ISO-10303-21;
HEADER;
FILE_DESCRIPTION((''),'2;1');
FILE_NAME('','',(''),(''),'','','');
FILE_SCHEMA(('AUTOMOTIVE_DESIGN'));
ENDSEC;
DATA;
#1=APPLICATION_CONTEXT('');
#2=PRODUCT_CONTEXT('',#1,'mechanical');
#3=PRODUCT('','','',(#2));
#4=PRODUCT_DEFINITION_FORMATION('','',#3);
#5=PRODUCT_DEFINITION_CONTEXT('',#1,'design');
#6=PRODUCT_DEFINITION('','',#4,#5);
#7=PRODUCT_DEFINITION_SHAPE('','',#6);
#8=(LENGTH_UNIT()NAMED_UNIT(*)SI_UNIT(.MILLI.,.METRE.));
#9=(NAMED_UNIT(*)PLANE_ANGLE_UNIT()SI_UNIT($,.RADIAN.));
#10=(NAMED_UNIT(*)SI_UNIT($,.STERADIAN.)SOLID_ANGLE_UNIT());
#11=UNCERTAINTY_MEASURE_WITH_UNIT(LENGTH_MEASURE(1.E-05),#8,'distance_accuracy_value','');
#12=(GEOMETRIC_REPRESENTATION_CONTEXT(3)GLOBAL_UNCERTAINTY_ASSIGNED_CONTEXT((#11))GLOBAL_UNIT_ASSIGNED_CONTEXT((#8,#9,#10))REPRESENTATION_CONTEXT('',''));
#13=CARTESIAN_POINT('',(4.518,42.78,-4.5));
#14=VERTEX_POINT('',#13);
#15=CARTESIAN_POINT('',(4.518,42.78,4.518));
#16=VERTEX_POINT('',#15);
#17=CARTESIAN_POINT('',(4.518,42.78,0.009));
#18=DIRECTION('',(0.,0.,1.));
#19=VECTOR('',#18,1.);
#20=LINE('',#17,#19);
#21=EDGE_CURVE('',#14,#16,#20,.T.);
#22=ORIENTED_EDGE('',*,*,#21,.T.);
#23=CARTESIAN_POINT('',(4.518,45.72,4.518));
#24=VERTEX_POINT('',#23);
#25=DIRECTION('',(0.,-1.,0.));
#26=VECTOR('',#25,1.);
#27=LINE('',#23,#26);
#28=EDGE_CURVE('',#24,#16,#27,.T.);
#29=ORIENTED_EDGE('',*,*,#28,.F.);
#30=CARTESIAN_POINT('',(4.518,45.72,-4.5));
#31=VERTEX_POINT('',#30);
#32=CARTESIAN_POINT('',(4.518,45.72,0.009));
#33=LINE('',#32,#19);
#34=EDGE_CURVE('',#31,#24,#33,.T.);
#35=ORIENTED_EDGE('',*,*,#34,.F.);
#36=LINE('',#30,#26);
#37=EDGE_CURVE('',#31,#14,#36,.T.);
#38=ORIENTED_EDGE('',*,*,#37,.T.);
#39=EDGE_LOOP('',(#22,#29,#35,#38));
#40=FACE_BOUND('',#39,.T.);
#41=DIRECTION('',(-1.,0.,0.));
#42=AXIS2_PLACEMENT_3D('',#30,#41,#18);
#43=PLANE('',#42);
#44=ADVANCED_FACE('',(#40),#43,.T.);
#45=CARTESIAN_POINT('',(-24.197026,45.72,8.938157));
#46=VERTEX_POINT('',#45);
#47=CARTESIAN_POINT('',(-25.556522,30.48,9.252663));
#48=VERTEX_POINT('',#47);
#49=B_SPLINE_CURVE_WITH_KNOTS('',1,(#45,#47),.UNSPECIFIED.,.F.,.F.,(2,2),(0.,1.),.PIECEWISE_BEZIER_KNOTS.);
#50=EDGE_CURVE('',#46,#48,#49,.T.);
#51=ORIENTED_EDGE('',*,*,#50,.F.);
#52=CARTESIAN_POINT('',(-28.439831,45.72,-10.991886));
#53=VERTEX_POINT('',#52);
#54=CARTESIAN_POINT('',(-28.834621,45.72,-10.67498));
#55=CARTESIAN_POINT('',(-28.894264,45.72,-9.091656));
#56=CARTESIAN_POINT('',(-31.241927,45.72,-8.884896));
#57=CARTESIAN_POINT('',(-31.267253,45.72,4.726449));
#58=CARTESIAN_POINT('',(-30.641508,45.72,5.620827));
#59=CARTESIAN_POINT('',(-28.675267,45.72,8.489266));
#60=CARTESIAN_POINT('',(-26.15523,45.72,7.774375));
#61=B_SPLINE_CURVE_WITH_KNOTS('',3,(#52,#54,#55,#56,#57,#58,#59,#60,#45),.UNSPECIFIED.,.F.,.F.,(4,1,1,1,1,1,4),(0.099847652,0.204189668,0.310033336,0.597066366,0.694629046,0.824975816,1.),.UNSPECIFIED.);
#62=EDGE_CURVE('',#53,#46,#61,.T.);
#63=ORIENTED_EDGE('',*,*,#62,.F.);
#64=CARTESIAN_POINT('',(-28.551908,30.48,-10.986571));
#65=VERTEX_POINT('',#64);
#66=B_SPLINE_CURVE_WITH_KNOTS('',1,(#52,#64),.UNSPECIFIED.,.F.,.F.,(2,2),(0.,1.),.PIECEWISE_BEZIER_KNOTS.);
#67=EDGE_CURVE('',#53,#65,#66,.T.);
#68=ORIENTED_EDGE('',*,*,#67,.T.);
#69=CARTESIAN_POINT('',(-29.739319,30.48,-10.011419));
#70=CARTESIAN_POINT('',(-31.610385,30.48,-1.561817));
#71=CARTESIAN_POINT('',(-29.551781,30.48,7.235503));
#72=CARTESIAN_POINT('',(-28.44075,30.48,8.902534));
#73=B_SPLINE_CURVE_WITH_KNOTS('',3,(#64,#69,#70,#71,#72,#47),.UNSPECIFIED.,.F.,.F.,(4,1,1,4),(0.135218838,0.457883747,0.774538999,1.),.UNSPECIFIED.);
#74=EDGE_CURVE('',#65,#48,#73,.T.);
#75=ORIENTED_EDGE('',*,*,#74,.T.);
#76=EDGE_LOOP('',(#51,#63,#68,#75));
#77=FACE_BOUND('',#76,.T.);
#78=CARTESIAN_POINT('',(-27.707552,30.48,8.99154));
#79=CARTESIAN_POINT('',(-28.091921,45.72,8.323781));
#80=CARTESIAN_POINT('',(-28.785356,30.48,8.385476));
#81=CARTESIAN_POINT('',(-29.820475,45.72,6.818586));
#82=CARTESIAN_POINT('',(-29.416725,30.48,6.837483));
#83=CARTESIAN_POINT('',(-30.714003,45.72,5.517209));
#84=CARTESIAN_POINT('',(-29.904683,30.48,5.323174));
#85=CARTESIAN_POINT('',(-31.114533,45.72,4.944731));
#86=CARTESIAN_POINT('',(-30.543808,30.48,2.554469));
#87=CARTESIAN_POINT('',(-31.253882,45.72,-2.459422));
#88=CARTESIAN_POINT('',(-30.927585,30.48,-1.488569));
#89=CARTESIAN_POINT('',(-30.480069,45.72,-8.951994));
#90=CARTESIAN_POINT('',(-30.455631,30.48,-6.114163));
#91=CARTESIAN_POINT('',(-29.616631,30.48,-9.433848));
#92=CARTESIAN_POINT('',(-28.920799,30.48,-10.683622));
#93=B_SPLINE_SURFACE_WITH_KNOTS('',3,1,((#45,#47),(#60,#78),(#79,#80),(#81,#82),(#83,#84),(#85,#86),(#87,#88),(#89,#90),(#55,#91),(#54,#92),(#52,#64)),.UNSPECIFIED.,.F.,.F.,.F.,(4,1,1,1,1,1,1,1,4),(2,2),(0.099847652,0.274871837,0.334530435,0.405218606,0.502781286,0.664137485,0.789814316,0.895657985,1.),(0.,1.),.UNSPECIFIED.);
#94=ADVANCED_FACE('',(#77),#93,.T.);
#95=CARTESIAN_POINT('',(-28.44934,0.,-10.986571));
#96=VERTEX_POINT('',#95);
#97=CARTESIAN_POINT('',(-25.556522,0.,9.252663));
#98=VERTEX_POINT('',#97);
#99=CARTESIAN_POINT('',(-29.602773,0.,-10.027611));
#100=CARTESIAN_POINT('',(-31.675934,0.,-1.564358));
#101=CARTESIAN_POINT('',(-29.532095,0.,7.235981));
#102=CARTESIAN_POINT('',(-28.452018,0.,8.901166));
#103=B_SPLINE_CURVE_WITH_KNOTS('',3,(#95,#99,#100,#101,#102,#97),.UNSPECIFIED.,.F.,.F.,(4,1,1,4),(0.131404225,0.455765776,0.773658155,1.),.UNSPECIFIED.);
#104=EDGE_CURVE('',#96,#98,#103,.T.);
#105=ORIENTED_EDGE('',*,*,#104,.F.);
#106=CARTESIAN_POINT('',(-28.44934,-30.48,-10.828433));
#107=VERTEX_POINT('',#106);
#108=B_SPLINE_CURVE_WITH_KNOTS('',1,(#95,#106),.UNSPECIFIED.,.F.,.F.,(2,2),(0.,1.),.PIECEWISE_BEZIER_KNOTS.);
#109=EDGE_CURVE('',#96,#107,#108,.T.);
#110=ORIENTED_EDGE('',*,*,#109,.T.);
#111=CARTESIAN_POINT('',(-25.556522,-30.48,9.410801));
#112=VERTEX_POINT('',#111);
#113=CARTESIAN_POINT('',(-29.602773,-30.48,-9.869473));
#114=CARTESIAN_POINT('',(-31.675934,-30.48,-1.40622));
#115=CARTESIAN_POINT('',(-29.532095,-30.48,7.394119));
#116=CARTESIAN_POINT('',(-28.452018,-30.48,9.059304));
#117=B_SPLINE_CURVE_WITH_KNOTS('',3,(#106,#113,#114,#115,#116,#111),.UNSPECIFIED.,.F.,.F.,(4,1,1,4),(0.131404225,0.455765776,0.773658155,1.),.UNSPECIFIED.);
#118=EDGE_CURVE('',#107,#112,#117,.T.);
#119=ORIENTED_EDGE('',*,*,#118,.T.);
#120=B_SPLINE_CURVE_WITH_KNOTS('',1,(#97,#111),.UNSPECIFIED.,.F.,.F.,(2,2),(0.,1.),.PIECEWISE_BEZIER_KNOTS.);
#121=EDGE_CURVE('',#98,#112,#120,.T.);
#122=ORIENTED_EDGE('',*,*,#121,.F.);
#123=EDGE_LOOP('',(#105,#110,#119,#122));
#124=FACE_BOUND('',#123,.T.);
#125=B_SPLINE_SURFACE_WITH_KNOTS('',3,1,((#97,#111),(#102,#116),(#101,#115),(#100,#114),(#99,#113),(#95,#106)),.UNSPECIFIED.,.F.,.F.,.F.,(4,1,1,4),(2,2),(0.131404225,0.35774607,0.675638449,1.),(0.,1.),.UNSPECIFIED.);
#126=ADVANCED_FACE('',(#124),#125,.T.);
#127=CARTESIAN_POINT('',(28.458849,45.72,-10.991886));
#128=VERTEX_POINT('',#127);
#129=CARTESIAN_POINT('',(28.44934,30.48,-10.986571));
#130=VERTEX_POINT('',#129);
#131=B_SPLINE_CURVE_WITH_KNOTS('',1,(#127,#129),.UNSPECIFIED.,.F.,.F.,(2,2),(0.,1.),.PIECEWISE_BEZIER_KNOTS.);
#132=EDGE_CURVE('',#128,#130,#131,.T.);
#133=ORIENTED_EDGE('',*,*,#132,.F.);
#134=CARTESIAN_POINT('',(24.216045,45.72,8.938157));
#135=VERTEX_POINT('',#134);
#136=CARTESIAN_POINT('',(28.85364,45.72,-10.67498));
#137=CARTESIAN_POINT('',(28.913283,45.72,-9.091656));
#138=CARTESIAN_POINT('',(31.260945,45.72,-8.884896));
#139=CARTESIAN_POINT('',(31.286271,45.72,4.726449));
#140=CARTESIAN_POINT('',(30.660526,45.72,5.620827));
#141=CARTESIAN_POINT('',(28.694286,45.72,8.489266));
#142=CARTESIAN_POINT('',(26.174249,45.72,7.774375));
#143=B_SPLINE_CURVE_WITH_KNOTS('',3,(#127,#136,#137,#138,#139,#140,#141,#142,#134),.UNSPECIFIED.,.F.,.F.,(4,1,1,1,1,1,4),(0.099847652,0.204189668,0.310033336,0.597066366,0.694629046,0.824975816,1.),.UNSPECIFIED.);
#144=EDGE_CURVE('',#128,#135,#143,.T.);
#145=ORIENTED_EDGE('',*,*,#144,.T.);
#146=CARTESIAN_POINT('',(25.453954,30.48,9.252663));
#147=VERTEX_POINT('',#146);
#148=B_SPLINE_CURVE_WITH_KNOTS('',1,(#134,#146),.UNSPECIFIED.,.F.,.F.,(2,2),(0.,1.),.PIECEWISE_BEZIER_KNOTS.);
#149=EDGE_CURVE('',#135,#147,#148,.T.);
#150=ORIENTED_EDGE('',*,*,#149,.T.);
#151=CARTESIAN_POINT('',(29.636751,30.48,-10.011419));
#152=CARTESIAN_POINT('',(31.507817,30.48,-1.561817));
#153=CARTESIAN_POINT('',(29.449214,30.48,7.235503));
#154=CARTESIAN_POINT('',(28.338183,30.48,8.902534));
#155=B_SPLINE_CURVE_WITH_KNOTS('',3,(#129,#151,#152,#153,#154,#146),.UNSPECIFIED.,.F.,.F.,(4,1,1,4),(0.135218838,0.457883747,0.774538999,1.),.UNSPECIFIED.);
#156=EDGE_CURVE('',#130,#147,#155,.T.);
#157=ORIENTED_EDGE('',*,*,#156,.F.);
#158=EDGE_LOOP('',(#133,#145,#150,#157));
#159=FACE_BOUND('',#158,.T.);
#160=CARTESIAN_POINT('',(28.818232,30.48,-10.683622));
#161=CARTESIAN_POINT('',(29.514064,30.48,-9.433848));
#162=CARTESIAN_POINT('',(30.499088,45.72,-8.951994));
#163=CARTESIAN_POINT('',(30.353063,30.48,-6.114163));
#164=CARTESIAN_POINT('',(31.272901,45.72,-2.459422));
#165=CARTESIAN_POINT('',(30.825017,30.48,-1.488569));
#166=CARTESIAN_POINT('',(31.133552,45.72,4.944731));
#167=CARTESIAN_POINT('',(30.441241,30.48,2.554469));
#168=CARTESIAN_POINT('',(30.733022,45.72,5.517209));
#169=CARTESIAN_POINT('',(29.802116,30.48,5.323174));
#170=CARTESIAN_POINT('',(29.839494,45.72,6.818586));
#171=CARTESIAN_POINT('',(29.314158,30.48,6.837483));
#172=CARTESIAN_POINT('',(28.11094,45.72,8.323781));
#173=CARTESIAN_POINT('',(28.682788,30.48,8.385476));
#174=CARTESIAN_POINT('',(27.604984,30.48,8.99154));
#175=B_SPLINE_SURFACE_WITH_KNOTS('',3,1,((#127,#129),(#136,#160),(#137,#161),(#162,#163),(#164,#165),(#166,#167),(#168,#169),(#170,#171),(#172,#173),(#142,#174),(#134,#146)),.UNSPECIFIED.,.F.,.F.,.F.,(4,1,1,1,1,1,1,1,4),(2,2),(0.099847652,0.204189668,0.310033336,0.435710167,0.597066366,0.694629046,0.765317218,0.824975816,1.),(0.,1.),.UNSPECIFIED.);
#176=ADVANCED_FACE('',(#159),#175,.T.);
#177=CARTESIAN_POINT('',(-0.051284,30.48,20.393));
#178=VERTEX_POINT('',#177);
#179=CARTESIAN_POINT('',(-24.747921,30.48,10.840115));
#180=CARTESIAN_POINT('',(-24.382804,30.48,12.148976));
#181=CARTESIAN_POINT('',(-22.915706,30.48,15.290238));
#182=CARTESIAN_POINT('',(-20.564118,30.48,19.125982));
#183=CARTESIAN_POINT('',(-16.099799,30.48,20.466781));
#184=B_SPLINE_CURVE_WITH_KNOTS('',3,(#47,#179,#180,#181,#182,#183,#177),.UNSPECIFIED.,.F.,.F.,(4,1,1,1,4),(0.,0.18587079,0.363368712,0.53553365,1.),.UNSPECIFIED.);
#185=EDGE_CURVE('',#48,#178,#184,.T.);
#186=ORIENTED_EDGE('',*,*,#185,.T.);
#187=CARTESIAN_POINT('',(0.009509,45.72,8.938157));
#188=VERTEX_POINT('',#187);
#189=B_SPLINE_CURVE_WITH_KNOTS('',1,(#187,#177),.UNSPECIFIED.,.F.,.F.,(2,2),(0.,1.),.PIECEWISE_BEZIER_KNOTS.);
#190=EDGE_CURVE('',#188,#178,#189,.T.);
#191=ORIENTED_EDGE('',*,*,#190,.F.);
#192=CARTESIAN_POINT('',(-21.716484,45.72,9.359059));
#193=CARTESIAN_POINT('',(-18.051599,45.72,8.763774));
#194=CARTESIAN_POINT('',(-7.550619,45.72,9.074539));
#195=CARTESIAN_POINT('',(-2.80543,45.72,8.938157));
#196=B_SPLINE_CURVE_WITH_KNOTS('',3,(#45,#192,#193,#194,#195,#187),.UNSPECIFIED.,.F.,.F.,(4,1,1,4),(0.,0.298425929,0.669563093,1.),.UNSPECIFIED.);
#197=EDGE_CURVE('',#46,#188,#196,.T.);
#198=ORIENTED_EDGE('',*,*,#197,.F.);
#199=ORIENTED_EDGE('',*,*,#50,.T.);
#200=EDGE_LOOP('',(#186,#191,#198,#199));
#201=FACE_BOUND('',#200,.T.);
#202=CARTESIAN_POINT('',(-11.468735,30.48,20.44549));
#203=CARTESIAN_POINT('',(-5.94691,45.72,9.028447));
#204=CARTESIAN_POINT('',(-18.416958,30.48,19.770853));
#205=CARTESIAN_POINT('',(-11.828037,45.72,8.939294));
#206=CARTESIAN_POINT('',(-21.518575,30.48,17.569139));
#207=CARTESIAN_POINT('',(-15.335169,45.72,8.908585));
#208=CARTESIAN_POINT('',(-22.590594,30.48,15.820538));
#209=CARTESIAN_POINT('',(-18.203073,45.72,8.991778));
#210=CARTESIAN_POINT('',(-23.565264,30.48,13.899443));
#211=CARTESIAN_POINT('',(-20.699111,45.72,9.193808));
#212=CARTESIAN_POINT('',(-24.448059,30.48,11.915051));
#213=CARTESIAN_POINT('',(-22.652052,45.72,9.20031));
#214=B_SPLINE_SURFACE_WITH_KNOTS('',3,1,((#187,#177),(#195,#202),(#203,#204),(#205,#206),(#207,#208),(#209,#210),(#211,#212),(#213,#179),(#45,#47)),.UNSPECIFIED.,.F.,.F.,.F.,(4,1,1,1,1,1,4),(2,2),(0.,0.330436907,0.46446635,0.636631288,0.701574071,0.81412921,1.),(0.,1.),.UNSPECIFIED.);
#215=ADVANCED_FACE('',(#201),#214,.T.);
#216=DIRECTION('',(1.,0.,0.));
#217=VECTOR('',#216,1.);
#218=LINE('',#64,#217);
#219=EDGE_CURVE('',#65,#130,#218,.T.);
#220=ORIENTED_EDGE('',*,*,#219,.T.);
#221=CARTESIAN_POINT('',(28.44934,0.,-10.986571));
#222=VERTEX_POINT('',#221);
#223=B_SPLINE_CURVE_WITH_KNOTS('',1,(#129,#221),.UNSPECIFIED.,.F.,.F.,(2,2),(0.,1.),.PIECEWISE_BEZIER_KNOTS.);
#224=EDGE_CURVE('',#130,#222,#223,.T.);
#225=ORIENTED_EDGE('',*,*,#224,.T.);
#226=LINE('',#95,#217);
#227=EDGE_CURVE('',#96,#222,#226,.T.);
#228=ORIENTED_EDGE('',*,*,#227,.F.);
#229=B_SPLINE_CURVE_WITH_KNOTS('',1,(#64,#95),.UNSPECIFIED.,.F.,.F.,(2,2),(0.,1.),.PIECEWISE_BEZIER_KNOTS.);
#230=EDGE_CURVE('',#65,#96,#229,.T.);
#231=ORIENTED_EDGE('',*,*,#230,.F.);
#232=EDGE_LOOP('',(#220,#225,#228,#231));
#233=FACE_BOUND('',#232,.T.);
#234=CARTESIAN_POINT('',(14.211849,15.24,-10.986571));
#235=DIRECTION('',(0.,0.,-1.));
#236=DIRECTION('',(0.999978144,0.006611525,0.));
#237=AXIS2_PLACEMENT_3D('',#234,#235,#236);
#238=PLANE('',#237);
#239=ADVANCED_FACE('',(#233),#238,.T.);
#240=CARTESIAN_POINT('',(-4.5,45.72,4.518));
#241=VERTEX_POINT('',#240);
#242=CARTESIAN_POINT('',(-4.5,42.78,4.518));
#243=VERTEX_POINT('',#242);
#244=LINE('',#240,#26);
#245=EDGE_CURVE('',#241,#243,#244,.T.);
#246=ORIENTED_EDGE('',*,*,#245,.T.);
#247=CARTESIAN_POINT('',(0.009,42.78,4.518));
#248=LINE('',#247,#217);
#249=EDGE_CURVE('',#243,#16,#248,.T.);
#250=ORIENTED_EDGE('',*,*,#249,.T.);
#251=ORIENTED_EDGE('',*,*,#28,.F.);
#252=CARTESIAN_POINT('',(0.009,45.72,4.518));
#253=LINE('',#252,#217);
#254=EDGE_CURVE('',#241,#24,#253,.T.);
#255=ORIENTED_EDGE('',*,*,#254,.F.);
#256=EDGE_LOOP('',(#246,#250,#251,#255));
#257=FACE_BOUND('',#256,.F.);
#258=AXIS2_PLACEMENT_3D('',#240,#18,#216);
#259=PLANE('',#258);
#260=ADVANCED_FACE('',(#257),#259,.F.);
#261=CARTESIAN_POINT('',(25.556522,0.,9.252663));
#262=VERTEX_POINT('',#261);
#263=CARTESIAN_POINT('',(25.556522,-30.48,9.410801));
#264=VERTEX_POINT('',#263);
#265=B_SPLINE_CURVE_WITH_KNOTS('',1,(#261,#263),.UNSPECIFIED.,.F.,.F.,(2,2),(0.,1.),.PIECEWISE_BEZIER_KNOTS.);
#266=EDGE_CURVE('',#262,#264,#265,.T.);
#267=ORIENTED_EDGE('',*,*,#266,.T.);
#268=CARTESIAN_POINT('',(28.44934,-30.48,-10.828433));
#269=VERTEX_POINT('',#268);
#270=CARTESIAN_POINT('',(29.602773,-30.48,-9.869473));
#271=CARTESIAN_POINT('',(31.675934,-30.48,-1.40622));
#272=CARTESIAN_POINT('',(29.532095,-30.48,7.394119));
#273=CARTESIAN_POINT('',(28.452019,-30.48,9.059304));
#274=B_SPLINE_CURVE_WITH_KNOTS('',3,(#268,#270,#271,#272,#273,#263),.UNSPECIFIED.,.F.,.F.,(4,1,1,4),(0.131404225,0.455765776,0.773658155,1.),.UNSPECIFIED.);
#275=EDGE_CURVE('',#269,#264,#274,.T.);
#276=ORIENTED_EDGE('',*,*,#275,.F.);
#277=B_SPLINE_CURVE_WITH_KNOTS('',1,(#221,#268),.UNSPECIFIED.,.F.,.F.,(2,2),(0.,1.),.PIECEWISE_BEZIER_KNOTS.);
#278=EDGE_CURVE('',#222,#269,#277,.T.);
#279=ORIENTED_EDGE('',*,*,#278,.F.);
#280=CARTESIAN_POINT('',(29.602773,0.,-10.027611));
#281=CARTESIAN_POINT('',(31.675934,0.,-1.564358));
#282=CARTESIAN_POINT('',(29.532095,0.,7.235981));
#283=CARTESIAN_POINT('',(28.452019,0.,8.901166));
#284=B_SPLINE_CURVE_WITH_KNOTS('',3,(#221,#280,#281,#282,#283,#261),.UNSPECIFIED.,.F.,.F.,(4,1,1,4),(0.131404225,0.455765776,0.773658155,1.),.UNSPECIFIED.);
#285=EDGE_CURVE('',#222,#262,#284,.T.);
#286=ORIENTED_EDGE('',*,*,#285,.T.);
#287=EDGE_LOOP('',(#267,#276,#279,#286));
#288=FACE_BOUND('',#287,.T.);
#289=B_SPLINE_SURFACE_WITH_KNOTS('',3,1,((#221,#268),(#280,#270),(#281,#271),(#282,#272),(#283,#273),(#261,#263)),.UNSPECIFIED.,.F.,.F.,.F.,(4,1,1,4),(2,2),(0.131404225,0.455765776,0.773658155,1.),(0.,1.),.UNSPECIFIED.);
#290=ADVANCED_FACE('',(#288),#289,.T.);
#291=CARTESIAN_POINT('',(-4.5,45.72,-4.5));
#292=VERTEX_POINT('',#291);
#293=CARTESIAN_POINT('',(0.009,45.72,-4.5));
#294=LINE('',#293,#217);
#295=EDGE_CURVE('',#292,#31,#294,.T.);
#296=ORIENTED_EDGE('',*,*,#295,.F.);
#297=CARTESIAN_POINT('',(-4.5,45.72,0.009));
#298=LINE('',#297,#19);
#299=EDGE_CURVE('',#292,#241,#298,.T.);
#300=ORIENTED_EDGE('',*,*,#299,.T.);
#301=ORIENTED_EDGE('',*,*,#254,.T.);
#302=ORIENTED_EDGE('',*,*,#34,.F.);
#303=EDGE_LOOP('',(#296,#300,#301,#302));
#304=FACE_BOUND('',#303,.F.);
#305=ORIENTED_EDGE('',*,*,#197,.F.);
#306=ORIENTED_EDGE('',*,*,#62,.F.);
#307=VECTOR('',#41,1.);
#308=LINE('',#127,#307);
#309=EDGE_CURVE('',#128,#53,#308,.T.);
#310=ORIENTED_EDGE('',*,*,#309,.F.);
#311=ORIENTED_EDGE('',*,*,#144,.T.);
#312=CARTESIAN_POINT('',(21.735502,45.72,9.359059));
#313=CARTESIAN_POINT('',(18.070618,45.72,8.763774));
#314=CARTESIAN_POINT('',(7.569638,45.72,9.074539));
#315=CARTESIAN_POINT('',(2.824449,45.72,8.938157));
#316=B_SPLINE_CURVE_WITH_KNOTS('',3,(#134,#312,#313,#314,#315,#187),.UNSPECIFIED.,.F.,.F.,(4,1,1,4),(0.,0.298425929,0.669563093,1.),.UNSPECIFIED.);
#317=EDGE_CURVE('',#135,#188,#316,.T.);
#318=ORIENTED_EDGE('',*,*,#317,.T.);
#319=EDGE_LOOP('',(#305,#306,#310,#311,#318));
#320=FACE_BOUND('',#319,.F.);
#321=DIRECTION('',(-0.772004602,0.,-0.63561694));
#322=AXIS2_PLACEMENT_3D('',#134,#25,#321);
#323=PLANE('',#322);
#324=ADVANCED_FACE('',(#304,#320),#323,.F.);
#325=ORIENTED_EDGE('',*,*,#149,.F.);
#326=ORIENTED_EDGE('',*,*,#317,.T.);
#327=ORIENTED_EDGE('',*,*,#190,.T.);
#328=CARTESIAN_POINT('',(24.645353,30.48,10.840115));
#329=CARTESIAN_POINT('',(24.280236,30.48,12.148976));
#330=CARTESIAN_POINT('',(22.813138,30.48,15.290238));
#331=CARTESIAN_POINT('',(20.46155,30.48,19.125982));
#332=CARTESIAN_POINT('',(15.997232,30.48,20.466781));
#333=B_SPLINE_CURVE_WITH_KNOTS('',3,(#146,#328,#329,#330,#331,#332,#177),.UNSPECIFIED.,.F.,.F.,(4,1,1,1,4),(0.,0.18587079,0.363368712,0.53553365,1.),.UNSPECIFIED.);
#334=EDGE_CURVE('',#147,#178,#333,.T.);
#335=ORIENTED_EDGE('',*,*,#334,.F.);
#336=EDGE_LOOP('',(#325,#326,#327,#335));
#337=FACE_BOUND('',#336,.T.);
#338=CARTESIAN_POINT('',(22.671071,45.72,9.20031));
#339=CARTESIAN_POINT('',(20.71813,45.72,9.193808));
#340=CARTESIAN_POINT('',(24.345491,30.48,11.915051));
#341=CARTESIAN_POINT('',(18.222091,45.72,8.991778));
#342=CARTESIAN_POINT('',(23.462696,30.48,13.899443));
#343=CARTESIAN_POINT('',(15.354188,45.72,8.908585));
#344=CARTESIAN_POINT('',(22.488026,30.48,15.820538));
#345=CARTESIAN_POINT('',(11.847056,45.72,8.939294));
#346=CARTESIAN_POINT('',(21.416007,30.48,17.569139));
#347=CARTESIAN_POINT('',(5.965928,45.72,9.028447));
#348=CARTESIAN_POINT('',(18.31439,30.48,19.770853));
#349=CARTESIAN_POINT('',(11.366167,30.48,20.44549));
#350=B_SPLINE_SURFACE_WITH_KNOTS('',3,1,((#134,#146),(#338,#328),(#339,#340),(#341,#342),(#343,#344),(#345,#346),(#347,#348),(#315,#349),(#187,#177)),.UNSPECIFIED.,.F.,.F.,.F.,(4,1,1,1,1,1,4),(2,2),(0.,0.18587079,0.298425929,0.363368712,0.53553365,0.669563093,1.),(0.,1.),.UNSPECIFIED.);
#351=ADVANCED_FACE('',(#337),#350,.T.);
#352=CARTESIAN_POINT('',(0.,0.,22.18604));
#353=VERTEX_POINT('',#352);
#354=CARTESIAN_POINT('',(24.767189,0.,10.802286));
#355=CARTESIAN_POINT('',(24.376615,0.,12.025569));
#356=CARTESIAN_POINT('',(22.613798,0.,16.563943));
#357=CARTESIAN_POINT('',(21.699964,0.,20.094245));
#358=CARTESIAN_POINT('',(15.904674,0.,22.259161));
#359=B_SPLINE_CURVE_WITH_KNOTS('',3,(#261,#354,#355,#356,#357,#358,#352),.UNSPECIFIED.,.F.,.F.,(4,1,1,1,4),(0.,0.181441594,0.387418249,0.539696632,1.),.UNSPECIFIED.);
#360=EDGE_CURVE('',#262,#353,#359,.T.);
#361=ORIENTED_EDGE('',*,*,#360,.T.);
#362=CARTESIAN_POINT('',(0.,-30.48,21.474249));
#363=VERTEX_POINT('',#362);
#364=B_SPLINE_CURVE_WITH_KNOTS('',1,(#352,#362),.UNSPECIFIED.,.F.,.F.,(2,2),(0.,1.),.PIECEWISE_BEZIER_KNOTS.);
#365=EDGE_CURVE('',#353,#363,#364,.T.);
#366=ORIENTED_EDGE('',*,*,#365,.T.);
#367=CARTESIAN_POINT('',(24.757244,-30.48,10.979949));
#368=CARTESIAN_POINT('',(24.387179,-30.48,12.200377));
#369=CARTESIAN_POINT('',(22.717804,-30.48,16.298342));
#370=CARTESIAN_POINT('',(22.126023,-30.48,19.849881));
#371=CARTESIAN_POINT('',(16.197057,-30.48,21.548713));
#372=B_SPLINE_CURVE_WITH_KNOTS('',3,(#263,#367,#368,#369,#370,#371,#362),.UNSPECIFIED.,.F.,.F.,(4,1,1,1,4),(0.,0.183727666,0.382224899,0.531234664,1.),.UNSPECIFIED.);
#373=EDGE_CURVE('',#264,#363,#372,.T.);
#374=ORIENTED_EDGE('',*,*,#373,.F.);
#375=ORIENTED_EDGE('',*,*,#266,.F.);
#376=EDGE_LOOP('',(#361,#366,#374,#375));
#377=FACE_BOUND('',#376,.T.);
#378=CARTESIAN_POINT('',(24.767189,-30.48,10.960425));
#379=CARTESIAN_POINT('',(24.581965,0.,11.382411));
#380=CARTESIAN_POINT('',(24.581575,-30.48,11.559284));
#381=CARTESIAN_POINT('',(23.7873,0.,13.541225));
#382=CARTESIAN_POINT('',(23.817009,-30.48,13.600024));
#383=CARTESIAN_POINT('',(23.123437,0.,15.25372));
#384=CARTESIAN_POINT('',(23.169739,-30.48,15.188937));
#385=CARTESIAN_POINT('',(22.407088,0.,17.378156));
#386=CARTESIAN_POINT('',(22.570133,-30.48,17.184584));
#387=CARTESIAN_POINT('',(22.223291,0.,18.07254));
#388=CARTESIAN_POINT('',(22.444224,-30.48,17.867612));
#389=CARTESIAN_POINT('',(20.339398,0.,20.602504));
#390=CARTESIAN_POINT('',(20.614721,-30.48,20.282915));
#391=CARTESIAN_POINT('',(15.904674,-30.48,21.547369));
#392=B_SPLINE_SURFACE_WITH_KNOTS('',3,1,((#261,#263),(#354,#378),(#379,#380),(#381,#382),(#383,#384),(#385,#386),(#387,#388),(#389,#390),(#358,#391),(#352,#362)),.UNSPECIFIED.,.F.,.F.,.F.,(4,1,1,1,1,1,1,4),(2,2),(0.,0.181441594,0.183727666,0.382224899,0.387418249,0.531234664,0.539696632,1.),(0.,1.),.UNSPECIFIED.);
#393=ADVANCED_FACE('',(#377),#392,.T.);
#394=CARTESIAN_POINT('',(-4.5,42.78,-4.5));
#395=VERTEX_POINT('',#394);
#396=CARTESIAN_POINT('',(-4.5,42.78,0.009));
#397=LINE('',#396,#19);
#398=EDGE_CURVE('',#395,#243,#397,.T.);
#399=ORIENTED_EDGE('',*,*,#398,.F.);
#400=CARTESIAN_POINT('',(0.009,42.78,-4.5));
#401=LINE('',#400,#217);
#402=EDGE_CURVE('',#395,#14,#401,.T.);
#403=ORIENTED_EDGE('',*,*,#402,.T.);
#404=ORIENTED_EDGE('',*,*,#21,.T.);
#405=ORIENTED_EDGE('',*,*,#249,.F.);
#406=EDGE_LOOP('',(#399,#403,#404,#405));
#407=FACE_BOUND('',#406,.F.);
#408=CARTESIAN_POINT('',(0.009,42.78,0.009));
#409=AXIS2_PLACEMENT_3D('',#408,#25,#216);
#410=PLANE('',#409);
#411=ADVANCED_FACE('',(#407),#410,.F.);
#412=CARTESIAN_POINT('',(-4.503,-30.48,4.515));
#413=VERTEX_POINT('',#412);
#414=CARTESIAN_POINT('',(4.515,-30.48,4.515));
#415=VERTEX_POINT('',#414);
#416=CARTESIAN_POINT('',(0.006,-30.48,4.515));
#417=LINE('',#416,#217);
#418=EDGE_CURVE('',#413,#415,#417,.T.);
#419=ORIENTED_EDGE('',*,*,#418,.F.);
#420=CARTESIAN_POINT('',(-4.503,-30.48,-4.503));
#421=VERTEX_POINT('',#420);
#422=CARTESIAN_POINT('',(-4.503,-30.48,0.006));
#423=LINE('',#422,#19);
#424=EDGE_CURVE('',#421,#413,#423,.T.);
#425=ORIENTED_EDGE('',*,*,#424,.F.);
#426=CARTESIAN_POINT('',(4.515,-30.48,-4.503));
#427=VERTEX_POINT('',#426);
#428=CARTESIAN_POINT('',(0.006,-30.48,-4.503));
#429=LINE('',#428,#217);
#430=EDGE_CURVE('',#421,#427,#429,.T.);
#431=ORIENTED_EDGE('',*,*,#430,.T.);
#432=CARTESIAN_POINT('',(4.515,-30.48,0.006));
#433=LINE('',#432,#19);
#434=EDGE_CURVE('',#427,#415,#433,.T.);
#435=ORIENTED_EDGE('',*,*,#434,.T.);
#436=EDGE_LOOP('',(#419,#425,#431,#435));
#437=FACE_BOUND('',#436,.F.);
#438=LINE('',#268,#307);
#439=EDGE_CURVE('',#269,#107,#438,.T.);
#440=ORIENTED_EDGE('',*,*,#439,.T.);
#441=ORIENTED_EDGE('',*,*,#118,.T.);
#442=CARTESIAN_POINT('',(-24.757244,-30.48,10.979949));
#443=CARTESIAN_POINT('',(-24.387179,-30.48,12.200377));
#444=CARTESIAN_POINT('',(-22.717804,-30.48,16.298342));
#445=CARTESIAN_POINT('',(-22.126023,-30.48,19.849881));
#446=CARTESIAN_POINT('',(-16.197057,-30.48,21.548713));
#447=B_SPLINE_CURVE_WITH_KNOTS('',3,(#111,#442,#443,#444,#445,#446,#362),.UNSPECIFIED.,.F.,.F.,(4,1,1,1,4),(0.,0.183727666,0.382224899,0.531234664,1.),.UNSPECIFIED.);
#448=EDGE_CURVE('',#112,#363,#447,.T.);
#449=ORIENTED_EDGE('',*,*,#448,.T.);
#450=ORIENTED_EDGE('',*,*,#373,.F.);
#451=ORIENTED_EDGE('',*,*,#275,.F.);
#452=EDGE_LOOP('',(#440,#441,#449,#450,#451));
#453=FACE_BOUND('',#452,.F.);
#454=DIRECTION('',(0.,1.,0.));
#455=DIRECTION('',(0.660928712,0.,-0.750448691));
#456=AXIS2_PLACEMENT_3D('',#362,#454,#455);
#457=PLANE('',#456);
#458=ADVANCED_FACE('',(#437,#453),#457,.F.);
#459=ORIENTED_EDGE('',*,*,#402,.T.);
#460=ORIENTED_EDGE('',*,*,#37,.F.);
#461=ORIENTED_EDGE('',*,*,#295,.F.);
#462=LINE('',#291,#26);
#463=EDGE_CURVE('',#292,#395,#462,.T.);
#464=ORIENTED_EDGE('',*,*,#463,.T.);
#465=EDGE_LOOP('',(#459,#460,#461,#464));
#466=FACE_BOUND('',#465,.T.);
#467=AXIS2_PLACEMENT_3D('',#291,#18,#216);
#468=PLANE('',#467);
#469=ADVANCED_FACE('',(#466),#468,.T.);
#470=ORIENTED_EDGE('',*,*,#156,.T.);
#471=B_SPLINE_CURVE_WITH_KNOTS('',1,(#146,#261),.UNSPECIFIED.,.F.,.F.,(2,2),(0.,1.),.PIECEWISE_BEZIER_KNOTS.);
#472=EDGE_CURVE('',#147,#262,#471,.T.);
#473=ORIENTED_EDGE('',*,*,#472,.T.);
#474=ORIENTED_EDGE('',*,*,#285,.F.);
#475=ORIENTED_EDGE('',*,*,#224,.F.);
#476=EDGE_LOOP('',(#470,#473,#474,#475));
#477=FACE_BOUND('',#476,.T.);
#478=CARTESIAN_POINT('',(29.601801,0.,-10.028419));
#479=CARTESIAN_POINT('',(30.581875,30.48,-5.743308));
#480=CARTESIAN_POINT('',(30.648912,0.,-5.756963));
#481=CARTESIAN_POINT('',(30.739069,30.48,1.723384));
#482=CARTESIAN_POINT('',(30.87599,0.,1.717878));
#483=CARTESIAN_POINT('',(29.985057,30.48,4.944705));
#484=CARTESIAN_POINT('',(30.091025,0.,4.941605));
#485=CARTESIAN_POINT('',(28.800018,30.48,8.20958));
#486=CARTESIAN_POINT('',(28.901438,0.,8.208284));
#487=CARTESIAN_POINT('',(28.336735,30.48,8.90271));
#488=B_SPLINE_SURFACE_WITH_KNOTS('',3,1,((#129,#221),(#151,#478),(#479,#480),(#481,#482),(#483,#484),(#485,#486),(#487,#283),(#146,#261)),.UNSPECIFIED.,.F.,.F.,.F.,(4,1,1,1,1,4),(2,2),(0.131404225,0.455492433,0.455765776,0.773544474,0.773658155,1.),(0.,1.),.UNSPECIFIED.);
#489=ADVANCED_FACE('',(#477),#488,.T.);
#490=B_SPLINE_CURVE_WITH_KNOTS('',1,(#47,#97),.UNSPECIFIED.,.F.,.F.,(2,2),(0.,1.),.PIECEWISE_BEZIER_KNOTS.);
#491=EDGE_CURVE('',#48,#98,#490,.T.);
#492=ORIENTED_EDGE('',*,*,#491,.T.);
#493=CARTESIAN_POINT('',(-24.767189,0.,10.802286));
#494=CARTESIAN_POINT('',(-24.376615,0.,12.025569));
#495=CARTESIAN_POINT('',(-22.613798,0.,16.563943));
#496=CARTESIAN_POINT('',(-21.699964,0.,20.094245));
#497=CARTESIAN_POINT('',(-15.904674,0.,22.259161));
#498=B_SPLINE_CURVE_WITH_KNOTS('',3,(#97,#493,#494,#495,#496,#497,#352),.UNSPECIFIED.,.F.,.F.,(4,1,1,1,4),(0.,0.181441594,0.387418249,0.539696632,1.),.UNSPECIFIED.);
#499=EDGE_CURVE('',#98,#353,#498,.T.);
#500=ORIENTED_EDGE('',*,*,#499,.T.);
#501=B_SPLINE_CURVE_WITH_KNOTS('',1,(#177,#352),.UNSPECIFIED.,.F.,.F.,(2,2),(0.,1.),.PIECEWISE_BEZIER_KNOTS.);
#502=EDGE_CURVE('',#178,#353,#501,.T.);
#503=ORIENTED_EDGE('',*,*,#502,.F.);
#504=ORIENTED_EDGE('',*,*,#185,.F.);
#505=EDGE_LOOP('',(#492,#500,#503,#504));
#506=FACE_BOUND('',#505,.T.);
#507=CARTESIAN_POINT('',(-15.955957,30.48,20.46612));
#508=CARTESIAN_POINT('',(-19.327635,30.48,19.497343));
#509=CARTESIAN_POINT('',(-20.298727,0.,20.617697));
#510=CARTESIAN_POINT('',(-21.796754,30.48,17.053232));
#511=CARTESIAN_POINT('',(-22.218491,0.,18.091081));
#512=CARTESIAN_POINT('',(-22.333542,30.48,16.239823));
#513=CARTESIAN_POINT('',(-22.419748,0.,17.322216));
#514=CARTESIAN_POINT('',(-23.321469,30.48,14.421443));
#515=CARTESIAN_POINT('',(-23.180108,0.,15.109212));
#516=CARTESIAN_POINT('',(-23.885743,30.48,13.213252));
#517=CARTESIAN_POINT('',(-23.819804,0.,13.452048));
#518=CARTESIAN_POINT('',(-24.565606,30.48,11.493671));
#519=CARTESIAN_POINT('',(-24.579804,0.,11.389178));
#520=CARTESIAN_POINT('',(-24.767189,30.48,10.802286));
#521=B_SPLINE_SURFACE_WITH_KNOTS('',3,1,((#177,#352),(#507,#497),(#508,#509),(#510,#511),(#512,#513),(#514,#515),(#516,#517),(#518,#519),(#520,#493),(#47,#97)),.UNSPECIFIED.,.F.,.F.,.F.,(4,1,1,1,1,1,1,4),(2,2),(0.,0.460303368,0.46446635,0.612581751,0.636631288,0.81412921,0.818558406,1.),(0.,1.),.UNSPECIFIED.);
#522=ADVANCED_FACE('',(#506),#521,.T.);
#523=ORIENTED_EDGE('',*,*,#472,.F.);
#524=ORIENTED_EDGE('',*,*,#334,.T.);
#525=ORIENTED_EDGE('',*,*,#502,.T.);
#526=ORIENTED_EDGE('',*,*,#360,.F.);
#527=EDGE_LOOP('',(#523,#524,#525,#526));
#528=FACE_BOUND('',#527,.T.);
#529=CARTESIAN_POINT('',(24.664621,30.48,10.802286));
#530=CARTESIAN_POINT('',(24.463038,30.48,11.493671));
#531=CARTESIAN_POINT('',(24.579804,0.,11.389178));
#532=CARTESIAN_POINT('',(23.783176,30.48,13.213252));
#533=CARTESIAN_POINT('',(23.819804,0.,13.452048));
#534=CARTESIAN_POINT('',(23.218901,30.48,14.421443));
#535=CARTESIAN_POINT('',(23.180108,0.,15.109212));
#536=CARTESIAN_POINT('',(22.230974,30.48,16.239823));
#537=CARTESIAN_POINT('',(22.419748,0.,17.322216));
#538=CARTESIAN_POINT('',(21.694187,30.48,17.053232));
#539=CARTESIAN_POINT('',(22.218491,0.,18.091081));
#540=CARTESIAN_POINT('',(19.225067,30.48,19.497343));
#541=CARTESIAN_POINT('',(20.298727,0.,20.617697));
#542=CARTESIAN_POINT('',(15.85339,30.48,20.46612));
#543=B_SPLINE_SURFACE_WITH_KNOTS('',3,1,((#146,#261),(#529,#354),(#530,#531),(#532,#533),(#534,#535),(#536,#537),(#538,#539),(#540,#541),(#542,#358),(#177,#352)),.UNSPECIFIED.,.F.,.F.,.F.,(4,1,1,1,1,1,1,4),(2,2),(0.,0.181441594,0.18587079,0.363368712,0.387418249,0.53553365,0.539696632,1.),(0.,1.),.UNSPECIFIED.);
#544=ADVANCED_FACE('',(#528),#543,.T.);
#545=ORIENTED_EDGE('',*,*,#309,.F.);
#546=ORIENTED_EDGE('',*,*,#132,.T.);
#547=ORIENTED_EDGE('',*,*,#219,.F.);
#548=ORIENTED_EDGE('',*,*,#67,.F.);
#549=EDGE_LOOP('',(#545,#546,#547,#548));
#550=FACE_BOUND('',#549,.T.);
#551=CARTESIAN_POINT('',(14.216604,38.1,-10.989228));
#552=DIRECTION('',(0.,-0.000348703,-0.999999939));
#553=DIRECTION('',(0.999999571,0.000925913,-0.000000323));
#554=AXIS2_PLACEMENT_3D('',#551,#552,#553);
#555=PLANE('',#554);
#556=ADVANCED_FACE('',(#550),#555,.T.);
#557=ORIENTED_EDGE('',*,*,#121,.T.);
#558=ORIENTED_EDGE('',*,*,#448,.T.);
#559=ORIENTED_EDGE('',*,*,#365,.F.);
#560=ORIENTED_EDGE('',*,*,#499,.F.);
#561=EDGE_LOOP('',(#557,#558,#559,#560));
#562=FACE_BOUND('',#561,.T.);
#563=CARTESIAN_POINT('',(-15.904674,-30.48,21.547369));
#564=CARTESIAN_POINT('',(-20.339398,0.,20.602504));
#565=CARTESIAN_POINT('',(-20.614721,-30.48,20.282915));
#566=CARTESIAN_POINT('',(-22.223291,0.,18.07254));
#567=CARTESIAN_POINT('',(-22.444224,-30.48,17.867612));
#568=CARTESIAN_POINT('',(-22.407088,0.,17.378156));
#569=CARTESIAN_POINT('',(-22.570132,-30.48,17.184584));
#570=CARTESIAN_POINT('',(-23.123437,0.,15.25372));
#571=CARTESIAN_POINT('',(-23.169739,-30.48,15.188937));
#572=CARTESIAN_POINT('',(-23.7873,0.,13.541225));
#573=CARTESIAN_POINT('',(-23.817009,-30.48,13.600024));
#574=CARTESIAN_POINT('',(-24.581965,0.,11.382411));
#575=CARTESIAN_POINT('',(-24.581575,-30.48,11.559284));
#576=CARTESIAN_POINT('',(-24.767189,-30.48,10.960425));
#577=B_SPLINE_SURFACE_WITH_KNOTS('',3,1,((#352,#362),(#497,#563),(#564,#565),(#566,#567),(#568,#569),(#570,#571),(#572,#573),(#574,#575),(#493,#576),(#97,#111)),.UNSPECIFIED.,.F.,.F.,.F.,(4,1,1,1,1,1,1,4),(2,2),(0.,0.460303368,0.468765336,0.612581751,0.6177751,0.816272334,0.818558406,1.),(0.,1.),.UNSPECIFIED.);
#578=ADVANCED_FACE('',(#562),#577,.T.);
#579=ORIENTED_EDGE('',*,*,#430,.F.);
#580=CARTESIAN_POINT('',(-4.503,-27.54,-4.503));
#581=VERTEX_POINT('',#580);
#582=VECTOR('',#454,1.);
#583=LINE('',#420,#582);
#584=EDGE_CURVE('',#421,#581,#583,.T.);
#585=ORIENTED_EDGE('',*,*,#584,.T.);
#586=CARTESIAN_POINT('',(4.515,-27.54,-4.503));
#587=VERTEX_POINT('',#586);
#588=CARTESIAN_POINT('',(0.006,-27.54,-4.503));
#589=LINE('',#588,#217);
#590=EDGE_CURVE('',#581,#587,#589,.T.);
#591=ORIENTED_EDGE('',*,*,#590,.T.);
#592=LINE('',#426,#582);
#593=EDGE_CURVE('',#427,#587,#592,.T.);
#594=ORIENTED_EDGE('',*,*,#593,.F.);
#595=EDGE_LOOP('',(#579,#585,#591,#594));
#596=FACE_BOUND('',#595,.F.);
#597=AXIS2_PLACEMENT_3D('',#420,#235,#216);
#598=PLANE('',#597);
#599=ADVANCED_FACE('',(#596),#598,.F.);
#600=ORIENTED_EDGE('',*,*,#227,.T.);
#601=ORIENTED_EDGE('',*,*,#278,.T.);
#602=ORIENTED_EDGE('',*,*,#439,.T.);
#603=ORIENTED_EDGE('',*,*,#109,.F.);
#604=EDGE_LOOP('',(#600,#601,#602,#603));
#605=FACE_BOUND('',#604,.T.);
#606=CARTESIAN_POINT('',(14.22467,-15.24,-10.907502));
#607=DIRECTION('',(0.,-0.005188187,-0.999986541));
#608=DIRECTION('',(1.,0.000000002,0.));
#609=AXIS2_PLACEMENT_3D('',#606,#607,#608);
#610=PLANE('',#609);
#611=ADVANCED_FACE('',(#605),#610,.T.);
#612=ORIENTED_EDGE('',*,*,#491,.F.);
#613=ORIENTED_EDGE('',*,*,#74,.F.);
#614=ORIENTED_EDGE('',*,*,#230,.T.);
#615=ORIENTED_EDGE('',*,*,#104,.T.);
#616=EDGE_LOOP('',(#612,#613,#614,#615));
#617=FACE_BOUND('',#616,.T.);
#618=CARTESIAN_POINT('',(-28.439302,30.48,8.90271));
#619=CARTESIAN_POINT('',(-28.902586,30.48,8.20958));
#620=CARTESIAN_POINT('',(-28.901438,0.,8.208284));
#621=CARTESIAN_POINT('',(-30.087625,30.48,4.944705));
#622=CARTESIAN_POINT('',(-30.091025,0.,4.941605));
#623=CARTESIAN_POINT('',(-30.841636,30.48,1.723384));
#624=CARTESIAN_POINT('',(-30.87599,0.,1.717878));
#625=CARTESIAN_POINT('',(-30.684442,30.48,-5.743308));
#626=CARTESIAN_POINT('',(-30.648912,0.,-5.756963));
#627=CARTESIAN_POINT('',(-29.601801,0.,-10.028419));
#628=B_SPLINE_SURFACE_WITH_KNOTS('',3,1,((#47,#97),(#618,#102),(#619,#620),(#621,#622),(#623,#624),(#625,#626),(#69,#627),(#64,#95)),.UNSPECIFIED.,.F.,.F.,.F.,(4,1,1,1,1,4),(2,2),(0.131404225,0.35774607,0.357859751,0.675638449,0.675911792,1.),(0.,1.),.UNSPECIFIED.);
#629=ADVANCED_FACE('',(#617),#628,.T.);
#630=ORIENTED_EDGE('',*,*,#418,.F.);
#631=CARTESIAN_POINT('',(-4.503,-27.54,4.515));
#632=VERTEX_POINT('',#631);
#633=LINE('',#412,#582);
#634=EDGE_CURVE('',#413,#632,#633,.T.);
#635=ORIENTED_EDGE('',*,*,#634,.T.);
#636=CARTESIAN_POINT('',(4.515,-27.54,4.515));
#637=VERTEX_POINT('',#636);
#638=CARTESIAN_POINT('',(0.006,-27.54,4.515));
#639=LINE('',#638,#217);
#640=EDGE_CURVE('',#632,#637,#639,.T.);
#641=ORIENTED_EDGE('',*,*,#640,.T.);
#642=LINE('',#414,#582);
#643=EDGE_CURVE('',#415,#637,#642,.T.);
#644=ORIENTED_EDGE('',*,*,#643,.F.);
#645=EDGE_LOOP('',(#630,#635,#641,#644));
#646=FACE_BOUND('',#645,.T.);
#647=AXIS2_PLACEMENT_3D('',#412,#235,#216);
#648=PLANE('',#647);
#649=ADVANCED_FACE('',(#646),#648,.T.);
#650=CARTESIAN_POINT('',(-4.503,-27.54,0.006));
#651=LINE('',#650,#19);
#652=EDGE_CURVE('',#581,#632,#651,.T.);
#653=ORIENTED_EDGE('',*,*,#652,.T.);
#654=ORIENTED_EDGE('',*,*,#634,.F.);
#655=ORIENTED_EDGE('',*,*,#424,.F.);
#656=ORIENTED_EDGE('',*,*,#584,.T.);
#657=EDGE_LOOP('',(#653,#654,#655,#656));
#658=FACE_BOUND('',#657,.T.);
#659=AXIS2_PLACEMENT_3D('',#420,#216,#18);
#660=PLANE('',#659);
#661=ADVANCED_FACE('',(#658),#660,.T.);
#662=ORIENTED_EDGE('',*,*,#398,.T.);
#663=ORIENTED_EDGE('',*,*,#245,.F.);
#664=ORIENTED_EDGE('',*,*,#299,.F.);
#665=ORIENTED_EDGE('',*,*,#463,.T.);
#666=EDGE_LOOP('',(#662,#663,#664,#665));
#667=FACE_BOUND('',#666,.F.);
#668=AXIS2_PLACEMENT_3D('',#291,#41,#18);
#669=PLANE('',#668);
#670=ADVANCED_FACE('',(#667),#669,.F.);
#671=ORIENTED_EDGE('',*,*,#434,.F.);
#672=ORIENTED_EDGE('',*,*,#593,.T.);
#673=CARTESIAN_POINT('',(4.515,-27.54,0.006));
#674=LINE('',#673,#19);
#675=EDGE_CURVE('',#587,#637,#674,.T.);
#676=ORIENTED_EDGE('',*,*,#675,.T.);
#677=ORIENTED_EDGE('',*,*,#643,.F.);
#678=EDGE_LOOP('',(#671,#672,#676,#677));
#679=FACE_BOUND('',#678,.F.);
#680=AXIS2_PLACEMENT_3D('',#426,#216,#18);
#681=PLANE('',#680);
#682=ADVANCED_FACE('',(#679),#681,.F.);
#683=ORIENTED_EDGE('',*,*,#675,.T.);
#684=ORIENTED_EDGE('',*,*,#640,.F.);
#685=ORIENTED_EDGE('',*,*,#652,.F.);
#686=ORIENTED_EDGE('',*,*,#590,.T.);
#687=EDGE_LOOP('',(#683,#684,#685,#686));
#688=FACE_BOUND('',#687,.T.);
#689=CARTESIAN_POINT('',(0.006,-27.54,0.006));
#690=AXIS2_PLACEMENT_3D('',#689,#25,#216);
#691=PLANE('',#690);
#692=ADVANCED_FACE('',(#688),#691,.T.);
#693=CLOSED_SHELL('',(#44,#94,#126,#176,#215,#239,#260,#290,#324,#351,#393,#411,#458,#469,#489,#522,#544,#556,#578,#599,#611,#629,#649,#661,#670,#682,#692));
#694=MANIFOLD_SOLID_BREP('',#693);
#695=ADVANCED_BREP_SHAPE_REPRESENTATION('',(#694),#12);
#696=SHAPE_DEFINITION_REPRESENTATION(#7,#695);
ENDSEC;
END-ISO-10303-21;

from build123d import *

# Parameters (mm, degrees)
F8_W      = 150.3
F8_H      = 150.3
F15_DEPTH = 49
F16_W     = 150.3
F16_H     = 150.3
F17_DEPTH = 49
F18_SCALE = 0.06


with BuildPart() as f9:
    # F7 (on offset) → F9 section 0
    with BuildSketch(Plane.XZ.offset(-762)):
        with BuildLine():
            Line((0.1584887505, -183.1980922269), (0.1584887505, 148.9692763008))
            add(Edge.make_bspline(
                [(-403.2837748528, 148.9692763008), (-361.9413971901, 155.9843108572), (-300.8599900284, 146.0628981015), (-125.8436559494, 151.2423181929), (-46.7571673235, 148.9692763008), (0.1584887505, 148.9692763008)],
                knots=[0, 0, 0, 0, 0.2984259287, 0.6695630928, 1, 1, 1, 1], degree=3))
            add(Edge.make_bspline(
                [(-473.9971756935, -183.1980922269), (-480.5770214293, -177.9163295695), (-481.5710687682, -151.5276075961), (-520.6987799625, -148.0816034945), (-521.1208757291, 78.7741568252), (-510.6917945334, 93.6804495958), (-477.9211180885, 141.4877688131), (-435.9205000594, 129.5729096626), (-403.2837748528, 148.9692763008)],
                knots=[0.0998476522, 0.0998476522, 0.0998476522, 0.0998476522, 0.2041896676, 0.3100333363, 0.5970663664, 0.6946290463, 0.8249758157, 1, 1, 1, 1], degree=3))
            Line((-473.9971756935, -183.1980922269), (-448.5557532602, -183.1980922269))
            Line((-448.5557532602, -183.1980922269), (0.1584887505, -183.1980922269))
        make_face()
    # F3 (on offset) → F9 section 1
    with BuildSketch(Plane.XZ.offset(-508)):
        with BuildLine():
            Line((-448.7142420107, -183.1095217108), (-0.8547306061, -183.1095217108))
            Line((-0.8547306061, -183.1095217108), (-0.8547306061, 339.8833276392))
            add(Edge.make_bspline(
                [(-425.9420335293, 154.2110444666), (-412.46534384, 180.6685756473), (-406.3800631287, 202.4829286635), (-381.928427354, 254.8373079925), (-342.7353016167, 318.766364781), (-268.3299880886, 341.1130193989), (-0.8547306061, 339.8833276392)],
                knots=[0, 0, 0, 0, 0.1858707903, 0.3633687117, 0.53553365, 1, 1, 1, 1], degree=3))
            add(Edge.make_bspline(
                [(-475.8651256561, -183.1095217108), (-495.6553124123, -166.8569903526), (-526.8397519259, -26.030289038), (-492.5296911823, 120.5917099646), (-474.0125038157, 148.3755705213), (-425.9420335293, 154.2110444666)],
                knots=[0.1352188376, 0.1352188376, 0.1352188376, 0.1352188376, 0.4578837471, 0.7745389991, 1, 1, 1, 1], degree=3))
            Line((-475.8651256561, -183.1095217108), (-448.7142420107, -183.1095217108))
        make_face()
    loft()

    # F7 (on offset) → F10 section 0
    with BuildSketch(Plane.XZ.offset(-762)):
        with BuildLine():
            add(Edge.make_bspline(
                [(403.6007523537, 148.9692763008), (362.258374691, 155.9843108572), (301.1769675294, 146.0628981015), (126.1606334503, 151.2423181929), (47.0741448244, 148.9692763008), (0.1584887505, 148.9692763008)],
                knots=[0, 0, 0, 0, 0.2984259287, 0.6695630928, 1, 1, 1, 1], degree=3))
            Line((0.1584887505, 148.9692763008), (0.1584887505, -183.1980922269))
            Line((0.1584887505, -183.1980922269), (448.8727307612, -183.1980922269))
            Line((448.8727307612, -183.1980922269), (474.3141531944, -183.1980922269))
            add(Edge.make_bspline(
                [(474.3141531944, -183.1980922269), (480.8939989302, -177.9163295695), (481.8880462691, -151.5276075961), (521.0157574634, -148.0816034945), (521.43785323, 78.7741568252), (511.0087720343, 93.6804495958), (478.2380955895, 141.4877688131), (436.2374775603, 129.5729096626), (403.6007523537, 148.9692763008)],
                knots=[0.0998476522, 0.0998476522, 0.0998476522, 0.0998476522, 0.2041896676, 0.3100333363, 0.5970663664, 0.6946290463, 0.8249758157, 1, 1, 1, 1], degree=3))
        make_face()
    # F3 (on offset) → F10 section 1
    with BuildSketch(Plane.XZ.offset(-508)):
        with BuildLine():
            Line((-0.8547306061, 339.8833276392), (-0.8547306061, -183.1095217108))
            Line((-0.8547306061, -183.1095217108), (447.0047807985, -183.1095217108))
            Line((447.0047807985, -183.1095217108), (474.155664444, -183.1095217108))
            add(Edge.make_bspline(
                [(474.155664444, -183.1095217108), (493.9458512002, -166.8569903526), (525.1302907138, -26.030289038), (490.8202299702, 120.5917099646), (472.3030426035, 148.3755705213), (424.2325723171, 154.2110444666)],
                knots=[0.1352188376, 0.1352188376, 0.1352188376, 0.1352188376, 0.4578837471, 0.7745389991, 1, 1, 1, 1], degree=3))
            add(Edge.make_bspline(
                [(424.2325723171, 154.2110444666), (410.7558826278, 180.6685756473), (404.6706019165, 202.4829286635), (380.2189661418, 254.8373079925), (341.0258404045, 318.766364781), (266.6205268764, 341.1130193989), (-0.8547306061, 339.8833276392)],
                knots=[0, 0, 0, 0, 0.1858707903, 0.3633687117, 0.53553365, 1, 1, 1, 1], degree=3))
        make_face()
    loft()

    # F3 (on offset) → F11 section 0
    with BuildSketch(Plane.XZ.offset(-508)):
        with BuildLine():
            Line((-448.7142420107, -183.1095217108), (-0.8547306061, -183.1095217108))
            Line((-0.8547306061, -183.1095217108), (-0.8547306061, 339.8833276392))
            add(Edge.make_bspline(
                [(-425.9420335293, 154.2110444666), (-412.46534384, 180.6685756473), (-406.3800631287, 202.4829286635), (-381.928427354, 254.8373079925), (-342.7353016167, 318.766364781), (-268.3299880886, 341.1130193989), (-0.8547306061, 339.8833276392)],
                knots=[0, 0, 0, 0, 0.1858707903, 0.3633687117, 0.53553365, 1, 1, 1, 1], degree=3))
            add(Edge.make_bspline(
                [(-475.8651256561, -183.1095217108), (-495.6553124123, -166.8569903526), (-526.8397519259, -26.030289038), (-492.5296911823, 120.5917099646), (-474.0125038157, 148.3755705213), (-425.9420335293, 154.2110444666)],
                knots=[0.1352188376, 0.1352188376, 0.1352188376, 0.1352188376, 0.4578837471, 0.7745389991, 1, 1, 1, 1], degree=3))
            Line((-475.8651256561, -183.1095217108), (-448.7142420107, -183.1095217108))
        make_face()
    # F0 (on Front) → F11 section 1
    with BuildSketch(Plane.XZ):
        with BuildLine():
            Line((-448.7142418908, -183.1095215051), (1.199e-07, -183.1095215051))
            Line((1.199e-07, -183.1095215051), (1.199e-07, 369.7673383983))
            add(Edge.make_bspline(
                [(-425.9420334094, 154.2110446723), (-412.7864856493, 180.0381077778), (-406.2769170657, 200.4261421029), (-376.8966252496, 276.0657125006), (-361.6660609239, 334.9040835407), (-265.0778939608, 370.9860085104), (1.199e-07, 369.7673383983)],
                knots=[0, 0, 0, 0, 0.181441594, 0.3874182486, 0.5396966318, 1, 1, 1, 1], degree=3))
            add(Edge.make_bspline(
                [(-474.1556643241, -183.1095215051), (-493.3795421324, -167.1268559789), (-527.9322253212, -26.0726288897), (-492.2015831078, 120.5996786697), (-474.200308203, 148.3527723582), (-425.9420334094, 154.2110446723)],
                knots=[0.1314042252, 0.1314042252, 0.1314042252, 0.1314042252, 0.4557657758, 0.7736581549, 1, 1, 1, 1], degree=3))
            Line((-474.1556643241, -183.1095215051), (-448.7142418908, -183.1095215051))
        make_face()
    loft()

    # F3 (on offset) → F12 section 0
    with BuildSketch(Plane.XZ.offset(-508)):
        with BuildLine():
            Line((-0.8547306061, 339.8833276392), (-0.8547306061, -183.1095217108))
            Line((-0.8547306061, -183.1095217108), (447.0047807985, -183.1095217108))
            Line((447.0047807985, -183.1095217108), (474.155664444, -183.1095217108))
            add(Edge.make_bspline(
                [(474.155664444, -183.1095217108), (493.9458512002, -166.8569903526), (525.1302907138, -26.030289038), (490.8202299702, 120.5917099646), (472.3030426035, 148.3755705213), (424.2325723171, 154.2110444666)],
                knots=[0.1352188376, 0.1352188376, 0.1352188376, 0.1352188376, 0.4578837471, 0.7745389991, 1, 1, 1, 1], degree=3))
            add(Edge.make_bspline(
                [(424.2325723171, 154.2110444666), (410.7558826278, 180.6685756473), (404.6706019165, 202.4829286635), (380.2189661418, 254.8373079925), (341.0258404045, 318.766364781), (266.6205268764, 341.1130193989), (-0.8547306061, 339.8833276392)],
                knots=[0, 0, 0, 0, 0.1858707903, 0.3633687117, 0.53553365, 1, 1, 1, 1], degree=3))
        make_face()
    # F0 (on Front) → F12 section 1
    with BuildSketch(Plane.XZ):
        with BuildLine():
            Line((1.199e-07, 369.7673383983), (1.199e-07, -183.1095215051))
            Line((1.199e-07, -183.1095215051), (448.7142421306, -183.1095215051))
            Line((448.7142421306, -183.1095215051), (474.1556645639, -183.1095215051))
            add(Edge.make_bspline(
                [(474.1556645639, -183.1095215051), (493.3795423723, -167.1268559789), (527.932225561, -26.0726288897), (492.2015833477, 120.5996786697), (474.2003084428, 148.3527723582), (425.9420336492, 154.2110446723)],
                knots=[0.1314042252, 0.1314042252, 0.1314042252, 0.1314042252, 0.4557657758, 0.7736581549, 1, 1, 1, 1], degree=3))
            add(Edge.make_bspline(
                [(425.9420336492, 154.2110446723), (412.7864858892, 180.0381077778), (406.2769173055, 200.4261421029), (376.8966254894, 276.0657125006), (361.6660611637, 334.9040835407), (265.0778942007, 370.9860085104), (1.199e-07, 369.7673383983)],
                knots=[0, 0, 0, 0, 0.181441594, 0.3874182486, 0.5396966318, 1, 1, 1, 1], degree=3))
        make_face()
    loft()

    # F0 (on Front) → F13 section 0
    with BuildSketch(Plane.XZ):
        with BuildLine():
            Line((-448.7142418908, -183.1095215051), (1.199e-07, -183.1095215051))
            Line((1.199e-07, -183.1095215051), (1.199e-07, 369.7673383983))
            add(Edge.make_bspline(
                [(-425.9420334094, 154.2110446723), (-412.7864856493, 180.0381077778), (-406.2769170657, 200.4261421029), (-376.8966252496, 276.0657125006), (-361.6660609239, 334.9040835407), (-265.0778939608, 370.9860085104), (1.199e-07, 369.7673383983)],
                knots=[0, 0, 0, 0, 0.181441594, 0.3874182486, 0.5396966318, 1, 1, 1, 1], degree=3))
            add(Edge.make_bspline(
                [(-474.1556643241, -183.1095215051), (-493.3795421324, -167.1268559789), (-527.9322253212, -26.0726288897), (-492.2015831078, 120.5996786697), (-474.200308203, 148.3527723582), (-425.9420334094, 154.2110446723)],
                knots=[0.1314042252, 0.1314042252, 0.1314042252, 0.1314042252, 0.4557657758, 0.7736581549, 1, 1, 1, 1], degree=3))
            Line((-474.1556643241, -183.1095215051), (-448.7142418908, -183.1095215051))
        make_face()
    # F4 (on offset) → F13 section 1
    with BuildSketch(Plane.XZ.offset(508)):
        with BuildLine():
            Line((-448.7142417362, -180.4738868312), (2.745e-07, -180.4738868312))
            Line((2.745e-07, -180.4738868312), (2.745e-07, 357.9041432305))
            add(Edge.make_bspline(
                [(-425.9420332548, 156.8466793461), (-412.6207322676, 182.9991503433), (-406.452987123, 203.3396138866), (-378.6300657187, 271.6390355657), (-368.7670559889, 330.8313455477), (-269.9509419989, 359.1452167128), (2.745e-07, 357.9041432305)],
                knots=[0, 0, 0, 0, 0.183727666, 0.3822248995, 0.5312346644, 1, 1, 1, 1], degree=3))
            add(Edge.make_bspline(
                [(-474.1556641695, -180.4738868312), (-493.3795419779, -164.491221305), (-527.9322251666, -23.4369942158), (-492.2015829533, 123.2353133436), (-474.2003080485, 150.9884070321), (-425.9420332548, 156.8466793461)],
                knots=[0.1314042252, 0.1314042252, 0.1314042252, 0.1314042252, 0.4557657758, 0.7736581549, 1, 1, 1, 1], degree=3))
            Line((-474.1556641695, -180.4738868312), (-448.7142417362, -180.4738868312))
        make_face()
    loft()

    # F0 (on Front) → F14 section 0
    with BuildSketch(Plane.XZ):
        with BuildLine():
            Line((1.199e-07, 369.7673383983), (1.199e-07, -183.1095215051))
            Line((1.199e-07, -183.1095215051), (448.7142421306, -183.1095215051))
            Line((448.7142421306, -183.1095215051), (474.1556645639, -183.1095215051))
            add(Edge.make_bspline(
                [(474.1556645639, -183.1095215051), (493.3795423723, -167.1268559789), (527.932225561, -26.0726288897), (492.2015833477, 120.5996786697), (474.2003084428, 148.3527723582), (425.9420336492, 154.2110446723)],
                knots=[0.1314042252, 0.1314042252, 0.1314042252, 0.1314042252, 0.4557657758, 0.7736581549, 1, 1, 1, 1], degree=3))
            add(Edge.make_bspline(
                [(425.9420336492, 154.2110446723), (412.7864858892, 180.0381077778), (406.2769173055, 200.4261421029), (376.8966254894, 276.0657125006), (361.6660611637, 334.9040835407), (265.0778942007, 370.9860085104), (1.199e-07, 369.7673383983)],
                knots=[0, 0, 0, 0, 0.181441594, 0.3874182486, 0.5396966318, 1, 1, 1, 1], degree=3))
        make_face()
    # F4 (on offset) → F14 section 1
    with BuildSketch(Plane.XZ.offset(508)):
        with BuildLine():
            Line((2.745e-07, 357.9041432305), (2.745e-07, -180.4738868312))
            Line((2.745e-07, -180.4738868312), (448.7142422852, -180.4738868312))
            Line((448.7142422852, -180.4738868312), (474.1556647184, -180.4738868312))
            add(Edge.make_bspline(
                [(474.1556647184, -180.4738868312), (493.3795425268, -164.491221305), (527.9322257156, -23.4369942158), (492.2015835022, 123.2353133436), (474.2003085974, 150.9884070321), (425.9420338037, 156.8466793461)],
                knots=[0.1314042252, 0.1314042252, 0.1314042252, 0.1314042252, 0.4557657758, 0.7736581549, 1, 1, 1, 1], degree=3))
            add(Edge.make_bspline(
                [(425.9420338037, 156.8466793461), (412.6207328165, 182.9991503433), (406.4529876719, 203.3396138866), (378.6300662676, 271.6390355657), (368.7670565379, 330.8313455477), (269.9509425478, 359.1452167128), (2.745e-07, 357.9041432305)],
                knots=[0, 0, 0, 0, 0.183727666, 0.3822248995, 0.5312346644, 1, 1, 1, 1], degree=3))
        make_face()
    loft()

    # F8 (on offset) → F15 (cut)
    with BuildSketch(Plane.XZ.offset(-762)):
        with Locations((0.15, 0.15)):
            Rectangle(F8_W, F8_H)
    extrude(amount=F15_DEPTH, mode=Mode.SUBTRACT)

    # F16 (on offset) → F17 (cut)
    with BuildSketch(Plane.XZ.offset(508)):
        with Locations((0.1, 0.1)):
            Rectangle(F16_W, F16_H)
    extrude(amount=-F17_DEPTH, mode=Mode.SUBTRACT)


with BuildPart() as f9_1:
    # F18: moved
    add(f9.part.scale(F18_SCALE))


solid = f9_1.part
